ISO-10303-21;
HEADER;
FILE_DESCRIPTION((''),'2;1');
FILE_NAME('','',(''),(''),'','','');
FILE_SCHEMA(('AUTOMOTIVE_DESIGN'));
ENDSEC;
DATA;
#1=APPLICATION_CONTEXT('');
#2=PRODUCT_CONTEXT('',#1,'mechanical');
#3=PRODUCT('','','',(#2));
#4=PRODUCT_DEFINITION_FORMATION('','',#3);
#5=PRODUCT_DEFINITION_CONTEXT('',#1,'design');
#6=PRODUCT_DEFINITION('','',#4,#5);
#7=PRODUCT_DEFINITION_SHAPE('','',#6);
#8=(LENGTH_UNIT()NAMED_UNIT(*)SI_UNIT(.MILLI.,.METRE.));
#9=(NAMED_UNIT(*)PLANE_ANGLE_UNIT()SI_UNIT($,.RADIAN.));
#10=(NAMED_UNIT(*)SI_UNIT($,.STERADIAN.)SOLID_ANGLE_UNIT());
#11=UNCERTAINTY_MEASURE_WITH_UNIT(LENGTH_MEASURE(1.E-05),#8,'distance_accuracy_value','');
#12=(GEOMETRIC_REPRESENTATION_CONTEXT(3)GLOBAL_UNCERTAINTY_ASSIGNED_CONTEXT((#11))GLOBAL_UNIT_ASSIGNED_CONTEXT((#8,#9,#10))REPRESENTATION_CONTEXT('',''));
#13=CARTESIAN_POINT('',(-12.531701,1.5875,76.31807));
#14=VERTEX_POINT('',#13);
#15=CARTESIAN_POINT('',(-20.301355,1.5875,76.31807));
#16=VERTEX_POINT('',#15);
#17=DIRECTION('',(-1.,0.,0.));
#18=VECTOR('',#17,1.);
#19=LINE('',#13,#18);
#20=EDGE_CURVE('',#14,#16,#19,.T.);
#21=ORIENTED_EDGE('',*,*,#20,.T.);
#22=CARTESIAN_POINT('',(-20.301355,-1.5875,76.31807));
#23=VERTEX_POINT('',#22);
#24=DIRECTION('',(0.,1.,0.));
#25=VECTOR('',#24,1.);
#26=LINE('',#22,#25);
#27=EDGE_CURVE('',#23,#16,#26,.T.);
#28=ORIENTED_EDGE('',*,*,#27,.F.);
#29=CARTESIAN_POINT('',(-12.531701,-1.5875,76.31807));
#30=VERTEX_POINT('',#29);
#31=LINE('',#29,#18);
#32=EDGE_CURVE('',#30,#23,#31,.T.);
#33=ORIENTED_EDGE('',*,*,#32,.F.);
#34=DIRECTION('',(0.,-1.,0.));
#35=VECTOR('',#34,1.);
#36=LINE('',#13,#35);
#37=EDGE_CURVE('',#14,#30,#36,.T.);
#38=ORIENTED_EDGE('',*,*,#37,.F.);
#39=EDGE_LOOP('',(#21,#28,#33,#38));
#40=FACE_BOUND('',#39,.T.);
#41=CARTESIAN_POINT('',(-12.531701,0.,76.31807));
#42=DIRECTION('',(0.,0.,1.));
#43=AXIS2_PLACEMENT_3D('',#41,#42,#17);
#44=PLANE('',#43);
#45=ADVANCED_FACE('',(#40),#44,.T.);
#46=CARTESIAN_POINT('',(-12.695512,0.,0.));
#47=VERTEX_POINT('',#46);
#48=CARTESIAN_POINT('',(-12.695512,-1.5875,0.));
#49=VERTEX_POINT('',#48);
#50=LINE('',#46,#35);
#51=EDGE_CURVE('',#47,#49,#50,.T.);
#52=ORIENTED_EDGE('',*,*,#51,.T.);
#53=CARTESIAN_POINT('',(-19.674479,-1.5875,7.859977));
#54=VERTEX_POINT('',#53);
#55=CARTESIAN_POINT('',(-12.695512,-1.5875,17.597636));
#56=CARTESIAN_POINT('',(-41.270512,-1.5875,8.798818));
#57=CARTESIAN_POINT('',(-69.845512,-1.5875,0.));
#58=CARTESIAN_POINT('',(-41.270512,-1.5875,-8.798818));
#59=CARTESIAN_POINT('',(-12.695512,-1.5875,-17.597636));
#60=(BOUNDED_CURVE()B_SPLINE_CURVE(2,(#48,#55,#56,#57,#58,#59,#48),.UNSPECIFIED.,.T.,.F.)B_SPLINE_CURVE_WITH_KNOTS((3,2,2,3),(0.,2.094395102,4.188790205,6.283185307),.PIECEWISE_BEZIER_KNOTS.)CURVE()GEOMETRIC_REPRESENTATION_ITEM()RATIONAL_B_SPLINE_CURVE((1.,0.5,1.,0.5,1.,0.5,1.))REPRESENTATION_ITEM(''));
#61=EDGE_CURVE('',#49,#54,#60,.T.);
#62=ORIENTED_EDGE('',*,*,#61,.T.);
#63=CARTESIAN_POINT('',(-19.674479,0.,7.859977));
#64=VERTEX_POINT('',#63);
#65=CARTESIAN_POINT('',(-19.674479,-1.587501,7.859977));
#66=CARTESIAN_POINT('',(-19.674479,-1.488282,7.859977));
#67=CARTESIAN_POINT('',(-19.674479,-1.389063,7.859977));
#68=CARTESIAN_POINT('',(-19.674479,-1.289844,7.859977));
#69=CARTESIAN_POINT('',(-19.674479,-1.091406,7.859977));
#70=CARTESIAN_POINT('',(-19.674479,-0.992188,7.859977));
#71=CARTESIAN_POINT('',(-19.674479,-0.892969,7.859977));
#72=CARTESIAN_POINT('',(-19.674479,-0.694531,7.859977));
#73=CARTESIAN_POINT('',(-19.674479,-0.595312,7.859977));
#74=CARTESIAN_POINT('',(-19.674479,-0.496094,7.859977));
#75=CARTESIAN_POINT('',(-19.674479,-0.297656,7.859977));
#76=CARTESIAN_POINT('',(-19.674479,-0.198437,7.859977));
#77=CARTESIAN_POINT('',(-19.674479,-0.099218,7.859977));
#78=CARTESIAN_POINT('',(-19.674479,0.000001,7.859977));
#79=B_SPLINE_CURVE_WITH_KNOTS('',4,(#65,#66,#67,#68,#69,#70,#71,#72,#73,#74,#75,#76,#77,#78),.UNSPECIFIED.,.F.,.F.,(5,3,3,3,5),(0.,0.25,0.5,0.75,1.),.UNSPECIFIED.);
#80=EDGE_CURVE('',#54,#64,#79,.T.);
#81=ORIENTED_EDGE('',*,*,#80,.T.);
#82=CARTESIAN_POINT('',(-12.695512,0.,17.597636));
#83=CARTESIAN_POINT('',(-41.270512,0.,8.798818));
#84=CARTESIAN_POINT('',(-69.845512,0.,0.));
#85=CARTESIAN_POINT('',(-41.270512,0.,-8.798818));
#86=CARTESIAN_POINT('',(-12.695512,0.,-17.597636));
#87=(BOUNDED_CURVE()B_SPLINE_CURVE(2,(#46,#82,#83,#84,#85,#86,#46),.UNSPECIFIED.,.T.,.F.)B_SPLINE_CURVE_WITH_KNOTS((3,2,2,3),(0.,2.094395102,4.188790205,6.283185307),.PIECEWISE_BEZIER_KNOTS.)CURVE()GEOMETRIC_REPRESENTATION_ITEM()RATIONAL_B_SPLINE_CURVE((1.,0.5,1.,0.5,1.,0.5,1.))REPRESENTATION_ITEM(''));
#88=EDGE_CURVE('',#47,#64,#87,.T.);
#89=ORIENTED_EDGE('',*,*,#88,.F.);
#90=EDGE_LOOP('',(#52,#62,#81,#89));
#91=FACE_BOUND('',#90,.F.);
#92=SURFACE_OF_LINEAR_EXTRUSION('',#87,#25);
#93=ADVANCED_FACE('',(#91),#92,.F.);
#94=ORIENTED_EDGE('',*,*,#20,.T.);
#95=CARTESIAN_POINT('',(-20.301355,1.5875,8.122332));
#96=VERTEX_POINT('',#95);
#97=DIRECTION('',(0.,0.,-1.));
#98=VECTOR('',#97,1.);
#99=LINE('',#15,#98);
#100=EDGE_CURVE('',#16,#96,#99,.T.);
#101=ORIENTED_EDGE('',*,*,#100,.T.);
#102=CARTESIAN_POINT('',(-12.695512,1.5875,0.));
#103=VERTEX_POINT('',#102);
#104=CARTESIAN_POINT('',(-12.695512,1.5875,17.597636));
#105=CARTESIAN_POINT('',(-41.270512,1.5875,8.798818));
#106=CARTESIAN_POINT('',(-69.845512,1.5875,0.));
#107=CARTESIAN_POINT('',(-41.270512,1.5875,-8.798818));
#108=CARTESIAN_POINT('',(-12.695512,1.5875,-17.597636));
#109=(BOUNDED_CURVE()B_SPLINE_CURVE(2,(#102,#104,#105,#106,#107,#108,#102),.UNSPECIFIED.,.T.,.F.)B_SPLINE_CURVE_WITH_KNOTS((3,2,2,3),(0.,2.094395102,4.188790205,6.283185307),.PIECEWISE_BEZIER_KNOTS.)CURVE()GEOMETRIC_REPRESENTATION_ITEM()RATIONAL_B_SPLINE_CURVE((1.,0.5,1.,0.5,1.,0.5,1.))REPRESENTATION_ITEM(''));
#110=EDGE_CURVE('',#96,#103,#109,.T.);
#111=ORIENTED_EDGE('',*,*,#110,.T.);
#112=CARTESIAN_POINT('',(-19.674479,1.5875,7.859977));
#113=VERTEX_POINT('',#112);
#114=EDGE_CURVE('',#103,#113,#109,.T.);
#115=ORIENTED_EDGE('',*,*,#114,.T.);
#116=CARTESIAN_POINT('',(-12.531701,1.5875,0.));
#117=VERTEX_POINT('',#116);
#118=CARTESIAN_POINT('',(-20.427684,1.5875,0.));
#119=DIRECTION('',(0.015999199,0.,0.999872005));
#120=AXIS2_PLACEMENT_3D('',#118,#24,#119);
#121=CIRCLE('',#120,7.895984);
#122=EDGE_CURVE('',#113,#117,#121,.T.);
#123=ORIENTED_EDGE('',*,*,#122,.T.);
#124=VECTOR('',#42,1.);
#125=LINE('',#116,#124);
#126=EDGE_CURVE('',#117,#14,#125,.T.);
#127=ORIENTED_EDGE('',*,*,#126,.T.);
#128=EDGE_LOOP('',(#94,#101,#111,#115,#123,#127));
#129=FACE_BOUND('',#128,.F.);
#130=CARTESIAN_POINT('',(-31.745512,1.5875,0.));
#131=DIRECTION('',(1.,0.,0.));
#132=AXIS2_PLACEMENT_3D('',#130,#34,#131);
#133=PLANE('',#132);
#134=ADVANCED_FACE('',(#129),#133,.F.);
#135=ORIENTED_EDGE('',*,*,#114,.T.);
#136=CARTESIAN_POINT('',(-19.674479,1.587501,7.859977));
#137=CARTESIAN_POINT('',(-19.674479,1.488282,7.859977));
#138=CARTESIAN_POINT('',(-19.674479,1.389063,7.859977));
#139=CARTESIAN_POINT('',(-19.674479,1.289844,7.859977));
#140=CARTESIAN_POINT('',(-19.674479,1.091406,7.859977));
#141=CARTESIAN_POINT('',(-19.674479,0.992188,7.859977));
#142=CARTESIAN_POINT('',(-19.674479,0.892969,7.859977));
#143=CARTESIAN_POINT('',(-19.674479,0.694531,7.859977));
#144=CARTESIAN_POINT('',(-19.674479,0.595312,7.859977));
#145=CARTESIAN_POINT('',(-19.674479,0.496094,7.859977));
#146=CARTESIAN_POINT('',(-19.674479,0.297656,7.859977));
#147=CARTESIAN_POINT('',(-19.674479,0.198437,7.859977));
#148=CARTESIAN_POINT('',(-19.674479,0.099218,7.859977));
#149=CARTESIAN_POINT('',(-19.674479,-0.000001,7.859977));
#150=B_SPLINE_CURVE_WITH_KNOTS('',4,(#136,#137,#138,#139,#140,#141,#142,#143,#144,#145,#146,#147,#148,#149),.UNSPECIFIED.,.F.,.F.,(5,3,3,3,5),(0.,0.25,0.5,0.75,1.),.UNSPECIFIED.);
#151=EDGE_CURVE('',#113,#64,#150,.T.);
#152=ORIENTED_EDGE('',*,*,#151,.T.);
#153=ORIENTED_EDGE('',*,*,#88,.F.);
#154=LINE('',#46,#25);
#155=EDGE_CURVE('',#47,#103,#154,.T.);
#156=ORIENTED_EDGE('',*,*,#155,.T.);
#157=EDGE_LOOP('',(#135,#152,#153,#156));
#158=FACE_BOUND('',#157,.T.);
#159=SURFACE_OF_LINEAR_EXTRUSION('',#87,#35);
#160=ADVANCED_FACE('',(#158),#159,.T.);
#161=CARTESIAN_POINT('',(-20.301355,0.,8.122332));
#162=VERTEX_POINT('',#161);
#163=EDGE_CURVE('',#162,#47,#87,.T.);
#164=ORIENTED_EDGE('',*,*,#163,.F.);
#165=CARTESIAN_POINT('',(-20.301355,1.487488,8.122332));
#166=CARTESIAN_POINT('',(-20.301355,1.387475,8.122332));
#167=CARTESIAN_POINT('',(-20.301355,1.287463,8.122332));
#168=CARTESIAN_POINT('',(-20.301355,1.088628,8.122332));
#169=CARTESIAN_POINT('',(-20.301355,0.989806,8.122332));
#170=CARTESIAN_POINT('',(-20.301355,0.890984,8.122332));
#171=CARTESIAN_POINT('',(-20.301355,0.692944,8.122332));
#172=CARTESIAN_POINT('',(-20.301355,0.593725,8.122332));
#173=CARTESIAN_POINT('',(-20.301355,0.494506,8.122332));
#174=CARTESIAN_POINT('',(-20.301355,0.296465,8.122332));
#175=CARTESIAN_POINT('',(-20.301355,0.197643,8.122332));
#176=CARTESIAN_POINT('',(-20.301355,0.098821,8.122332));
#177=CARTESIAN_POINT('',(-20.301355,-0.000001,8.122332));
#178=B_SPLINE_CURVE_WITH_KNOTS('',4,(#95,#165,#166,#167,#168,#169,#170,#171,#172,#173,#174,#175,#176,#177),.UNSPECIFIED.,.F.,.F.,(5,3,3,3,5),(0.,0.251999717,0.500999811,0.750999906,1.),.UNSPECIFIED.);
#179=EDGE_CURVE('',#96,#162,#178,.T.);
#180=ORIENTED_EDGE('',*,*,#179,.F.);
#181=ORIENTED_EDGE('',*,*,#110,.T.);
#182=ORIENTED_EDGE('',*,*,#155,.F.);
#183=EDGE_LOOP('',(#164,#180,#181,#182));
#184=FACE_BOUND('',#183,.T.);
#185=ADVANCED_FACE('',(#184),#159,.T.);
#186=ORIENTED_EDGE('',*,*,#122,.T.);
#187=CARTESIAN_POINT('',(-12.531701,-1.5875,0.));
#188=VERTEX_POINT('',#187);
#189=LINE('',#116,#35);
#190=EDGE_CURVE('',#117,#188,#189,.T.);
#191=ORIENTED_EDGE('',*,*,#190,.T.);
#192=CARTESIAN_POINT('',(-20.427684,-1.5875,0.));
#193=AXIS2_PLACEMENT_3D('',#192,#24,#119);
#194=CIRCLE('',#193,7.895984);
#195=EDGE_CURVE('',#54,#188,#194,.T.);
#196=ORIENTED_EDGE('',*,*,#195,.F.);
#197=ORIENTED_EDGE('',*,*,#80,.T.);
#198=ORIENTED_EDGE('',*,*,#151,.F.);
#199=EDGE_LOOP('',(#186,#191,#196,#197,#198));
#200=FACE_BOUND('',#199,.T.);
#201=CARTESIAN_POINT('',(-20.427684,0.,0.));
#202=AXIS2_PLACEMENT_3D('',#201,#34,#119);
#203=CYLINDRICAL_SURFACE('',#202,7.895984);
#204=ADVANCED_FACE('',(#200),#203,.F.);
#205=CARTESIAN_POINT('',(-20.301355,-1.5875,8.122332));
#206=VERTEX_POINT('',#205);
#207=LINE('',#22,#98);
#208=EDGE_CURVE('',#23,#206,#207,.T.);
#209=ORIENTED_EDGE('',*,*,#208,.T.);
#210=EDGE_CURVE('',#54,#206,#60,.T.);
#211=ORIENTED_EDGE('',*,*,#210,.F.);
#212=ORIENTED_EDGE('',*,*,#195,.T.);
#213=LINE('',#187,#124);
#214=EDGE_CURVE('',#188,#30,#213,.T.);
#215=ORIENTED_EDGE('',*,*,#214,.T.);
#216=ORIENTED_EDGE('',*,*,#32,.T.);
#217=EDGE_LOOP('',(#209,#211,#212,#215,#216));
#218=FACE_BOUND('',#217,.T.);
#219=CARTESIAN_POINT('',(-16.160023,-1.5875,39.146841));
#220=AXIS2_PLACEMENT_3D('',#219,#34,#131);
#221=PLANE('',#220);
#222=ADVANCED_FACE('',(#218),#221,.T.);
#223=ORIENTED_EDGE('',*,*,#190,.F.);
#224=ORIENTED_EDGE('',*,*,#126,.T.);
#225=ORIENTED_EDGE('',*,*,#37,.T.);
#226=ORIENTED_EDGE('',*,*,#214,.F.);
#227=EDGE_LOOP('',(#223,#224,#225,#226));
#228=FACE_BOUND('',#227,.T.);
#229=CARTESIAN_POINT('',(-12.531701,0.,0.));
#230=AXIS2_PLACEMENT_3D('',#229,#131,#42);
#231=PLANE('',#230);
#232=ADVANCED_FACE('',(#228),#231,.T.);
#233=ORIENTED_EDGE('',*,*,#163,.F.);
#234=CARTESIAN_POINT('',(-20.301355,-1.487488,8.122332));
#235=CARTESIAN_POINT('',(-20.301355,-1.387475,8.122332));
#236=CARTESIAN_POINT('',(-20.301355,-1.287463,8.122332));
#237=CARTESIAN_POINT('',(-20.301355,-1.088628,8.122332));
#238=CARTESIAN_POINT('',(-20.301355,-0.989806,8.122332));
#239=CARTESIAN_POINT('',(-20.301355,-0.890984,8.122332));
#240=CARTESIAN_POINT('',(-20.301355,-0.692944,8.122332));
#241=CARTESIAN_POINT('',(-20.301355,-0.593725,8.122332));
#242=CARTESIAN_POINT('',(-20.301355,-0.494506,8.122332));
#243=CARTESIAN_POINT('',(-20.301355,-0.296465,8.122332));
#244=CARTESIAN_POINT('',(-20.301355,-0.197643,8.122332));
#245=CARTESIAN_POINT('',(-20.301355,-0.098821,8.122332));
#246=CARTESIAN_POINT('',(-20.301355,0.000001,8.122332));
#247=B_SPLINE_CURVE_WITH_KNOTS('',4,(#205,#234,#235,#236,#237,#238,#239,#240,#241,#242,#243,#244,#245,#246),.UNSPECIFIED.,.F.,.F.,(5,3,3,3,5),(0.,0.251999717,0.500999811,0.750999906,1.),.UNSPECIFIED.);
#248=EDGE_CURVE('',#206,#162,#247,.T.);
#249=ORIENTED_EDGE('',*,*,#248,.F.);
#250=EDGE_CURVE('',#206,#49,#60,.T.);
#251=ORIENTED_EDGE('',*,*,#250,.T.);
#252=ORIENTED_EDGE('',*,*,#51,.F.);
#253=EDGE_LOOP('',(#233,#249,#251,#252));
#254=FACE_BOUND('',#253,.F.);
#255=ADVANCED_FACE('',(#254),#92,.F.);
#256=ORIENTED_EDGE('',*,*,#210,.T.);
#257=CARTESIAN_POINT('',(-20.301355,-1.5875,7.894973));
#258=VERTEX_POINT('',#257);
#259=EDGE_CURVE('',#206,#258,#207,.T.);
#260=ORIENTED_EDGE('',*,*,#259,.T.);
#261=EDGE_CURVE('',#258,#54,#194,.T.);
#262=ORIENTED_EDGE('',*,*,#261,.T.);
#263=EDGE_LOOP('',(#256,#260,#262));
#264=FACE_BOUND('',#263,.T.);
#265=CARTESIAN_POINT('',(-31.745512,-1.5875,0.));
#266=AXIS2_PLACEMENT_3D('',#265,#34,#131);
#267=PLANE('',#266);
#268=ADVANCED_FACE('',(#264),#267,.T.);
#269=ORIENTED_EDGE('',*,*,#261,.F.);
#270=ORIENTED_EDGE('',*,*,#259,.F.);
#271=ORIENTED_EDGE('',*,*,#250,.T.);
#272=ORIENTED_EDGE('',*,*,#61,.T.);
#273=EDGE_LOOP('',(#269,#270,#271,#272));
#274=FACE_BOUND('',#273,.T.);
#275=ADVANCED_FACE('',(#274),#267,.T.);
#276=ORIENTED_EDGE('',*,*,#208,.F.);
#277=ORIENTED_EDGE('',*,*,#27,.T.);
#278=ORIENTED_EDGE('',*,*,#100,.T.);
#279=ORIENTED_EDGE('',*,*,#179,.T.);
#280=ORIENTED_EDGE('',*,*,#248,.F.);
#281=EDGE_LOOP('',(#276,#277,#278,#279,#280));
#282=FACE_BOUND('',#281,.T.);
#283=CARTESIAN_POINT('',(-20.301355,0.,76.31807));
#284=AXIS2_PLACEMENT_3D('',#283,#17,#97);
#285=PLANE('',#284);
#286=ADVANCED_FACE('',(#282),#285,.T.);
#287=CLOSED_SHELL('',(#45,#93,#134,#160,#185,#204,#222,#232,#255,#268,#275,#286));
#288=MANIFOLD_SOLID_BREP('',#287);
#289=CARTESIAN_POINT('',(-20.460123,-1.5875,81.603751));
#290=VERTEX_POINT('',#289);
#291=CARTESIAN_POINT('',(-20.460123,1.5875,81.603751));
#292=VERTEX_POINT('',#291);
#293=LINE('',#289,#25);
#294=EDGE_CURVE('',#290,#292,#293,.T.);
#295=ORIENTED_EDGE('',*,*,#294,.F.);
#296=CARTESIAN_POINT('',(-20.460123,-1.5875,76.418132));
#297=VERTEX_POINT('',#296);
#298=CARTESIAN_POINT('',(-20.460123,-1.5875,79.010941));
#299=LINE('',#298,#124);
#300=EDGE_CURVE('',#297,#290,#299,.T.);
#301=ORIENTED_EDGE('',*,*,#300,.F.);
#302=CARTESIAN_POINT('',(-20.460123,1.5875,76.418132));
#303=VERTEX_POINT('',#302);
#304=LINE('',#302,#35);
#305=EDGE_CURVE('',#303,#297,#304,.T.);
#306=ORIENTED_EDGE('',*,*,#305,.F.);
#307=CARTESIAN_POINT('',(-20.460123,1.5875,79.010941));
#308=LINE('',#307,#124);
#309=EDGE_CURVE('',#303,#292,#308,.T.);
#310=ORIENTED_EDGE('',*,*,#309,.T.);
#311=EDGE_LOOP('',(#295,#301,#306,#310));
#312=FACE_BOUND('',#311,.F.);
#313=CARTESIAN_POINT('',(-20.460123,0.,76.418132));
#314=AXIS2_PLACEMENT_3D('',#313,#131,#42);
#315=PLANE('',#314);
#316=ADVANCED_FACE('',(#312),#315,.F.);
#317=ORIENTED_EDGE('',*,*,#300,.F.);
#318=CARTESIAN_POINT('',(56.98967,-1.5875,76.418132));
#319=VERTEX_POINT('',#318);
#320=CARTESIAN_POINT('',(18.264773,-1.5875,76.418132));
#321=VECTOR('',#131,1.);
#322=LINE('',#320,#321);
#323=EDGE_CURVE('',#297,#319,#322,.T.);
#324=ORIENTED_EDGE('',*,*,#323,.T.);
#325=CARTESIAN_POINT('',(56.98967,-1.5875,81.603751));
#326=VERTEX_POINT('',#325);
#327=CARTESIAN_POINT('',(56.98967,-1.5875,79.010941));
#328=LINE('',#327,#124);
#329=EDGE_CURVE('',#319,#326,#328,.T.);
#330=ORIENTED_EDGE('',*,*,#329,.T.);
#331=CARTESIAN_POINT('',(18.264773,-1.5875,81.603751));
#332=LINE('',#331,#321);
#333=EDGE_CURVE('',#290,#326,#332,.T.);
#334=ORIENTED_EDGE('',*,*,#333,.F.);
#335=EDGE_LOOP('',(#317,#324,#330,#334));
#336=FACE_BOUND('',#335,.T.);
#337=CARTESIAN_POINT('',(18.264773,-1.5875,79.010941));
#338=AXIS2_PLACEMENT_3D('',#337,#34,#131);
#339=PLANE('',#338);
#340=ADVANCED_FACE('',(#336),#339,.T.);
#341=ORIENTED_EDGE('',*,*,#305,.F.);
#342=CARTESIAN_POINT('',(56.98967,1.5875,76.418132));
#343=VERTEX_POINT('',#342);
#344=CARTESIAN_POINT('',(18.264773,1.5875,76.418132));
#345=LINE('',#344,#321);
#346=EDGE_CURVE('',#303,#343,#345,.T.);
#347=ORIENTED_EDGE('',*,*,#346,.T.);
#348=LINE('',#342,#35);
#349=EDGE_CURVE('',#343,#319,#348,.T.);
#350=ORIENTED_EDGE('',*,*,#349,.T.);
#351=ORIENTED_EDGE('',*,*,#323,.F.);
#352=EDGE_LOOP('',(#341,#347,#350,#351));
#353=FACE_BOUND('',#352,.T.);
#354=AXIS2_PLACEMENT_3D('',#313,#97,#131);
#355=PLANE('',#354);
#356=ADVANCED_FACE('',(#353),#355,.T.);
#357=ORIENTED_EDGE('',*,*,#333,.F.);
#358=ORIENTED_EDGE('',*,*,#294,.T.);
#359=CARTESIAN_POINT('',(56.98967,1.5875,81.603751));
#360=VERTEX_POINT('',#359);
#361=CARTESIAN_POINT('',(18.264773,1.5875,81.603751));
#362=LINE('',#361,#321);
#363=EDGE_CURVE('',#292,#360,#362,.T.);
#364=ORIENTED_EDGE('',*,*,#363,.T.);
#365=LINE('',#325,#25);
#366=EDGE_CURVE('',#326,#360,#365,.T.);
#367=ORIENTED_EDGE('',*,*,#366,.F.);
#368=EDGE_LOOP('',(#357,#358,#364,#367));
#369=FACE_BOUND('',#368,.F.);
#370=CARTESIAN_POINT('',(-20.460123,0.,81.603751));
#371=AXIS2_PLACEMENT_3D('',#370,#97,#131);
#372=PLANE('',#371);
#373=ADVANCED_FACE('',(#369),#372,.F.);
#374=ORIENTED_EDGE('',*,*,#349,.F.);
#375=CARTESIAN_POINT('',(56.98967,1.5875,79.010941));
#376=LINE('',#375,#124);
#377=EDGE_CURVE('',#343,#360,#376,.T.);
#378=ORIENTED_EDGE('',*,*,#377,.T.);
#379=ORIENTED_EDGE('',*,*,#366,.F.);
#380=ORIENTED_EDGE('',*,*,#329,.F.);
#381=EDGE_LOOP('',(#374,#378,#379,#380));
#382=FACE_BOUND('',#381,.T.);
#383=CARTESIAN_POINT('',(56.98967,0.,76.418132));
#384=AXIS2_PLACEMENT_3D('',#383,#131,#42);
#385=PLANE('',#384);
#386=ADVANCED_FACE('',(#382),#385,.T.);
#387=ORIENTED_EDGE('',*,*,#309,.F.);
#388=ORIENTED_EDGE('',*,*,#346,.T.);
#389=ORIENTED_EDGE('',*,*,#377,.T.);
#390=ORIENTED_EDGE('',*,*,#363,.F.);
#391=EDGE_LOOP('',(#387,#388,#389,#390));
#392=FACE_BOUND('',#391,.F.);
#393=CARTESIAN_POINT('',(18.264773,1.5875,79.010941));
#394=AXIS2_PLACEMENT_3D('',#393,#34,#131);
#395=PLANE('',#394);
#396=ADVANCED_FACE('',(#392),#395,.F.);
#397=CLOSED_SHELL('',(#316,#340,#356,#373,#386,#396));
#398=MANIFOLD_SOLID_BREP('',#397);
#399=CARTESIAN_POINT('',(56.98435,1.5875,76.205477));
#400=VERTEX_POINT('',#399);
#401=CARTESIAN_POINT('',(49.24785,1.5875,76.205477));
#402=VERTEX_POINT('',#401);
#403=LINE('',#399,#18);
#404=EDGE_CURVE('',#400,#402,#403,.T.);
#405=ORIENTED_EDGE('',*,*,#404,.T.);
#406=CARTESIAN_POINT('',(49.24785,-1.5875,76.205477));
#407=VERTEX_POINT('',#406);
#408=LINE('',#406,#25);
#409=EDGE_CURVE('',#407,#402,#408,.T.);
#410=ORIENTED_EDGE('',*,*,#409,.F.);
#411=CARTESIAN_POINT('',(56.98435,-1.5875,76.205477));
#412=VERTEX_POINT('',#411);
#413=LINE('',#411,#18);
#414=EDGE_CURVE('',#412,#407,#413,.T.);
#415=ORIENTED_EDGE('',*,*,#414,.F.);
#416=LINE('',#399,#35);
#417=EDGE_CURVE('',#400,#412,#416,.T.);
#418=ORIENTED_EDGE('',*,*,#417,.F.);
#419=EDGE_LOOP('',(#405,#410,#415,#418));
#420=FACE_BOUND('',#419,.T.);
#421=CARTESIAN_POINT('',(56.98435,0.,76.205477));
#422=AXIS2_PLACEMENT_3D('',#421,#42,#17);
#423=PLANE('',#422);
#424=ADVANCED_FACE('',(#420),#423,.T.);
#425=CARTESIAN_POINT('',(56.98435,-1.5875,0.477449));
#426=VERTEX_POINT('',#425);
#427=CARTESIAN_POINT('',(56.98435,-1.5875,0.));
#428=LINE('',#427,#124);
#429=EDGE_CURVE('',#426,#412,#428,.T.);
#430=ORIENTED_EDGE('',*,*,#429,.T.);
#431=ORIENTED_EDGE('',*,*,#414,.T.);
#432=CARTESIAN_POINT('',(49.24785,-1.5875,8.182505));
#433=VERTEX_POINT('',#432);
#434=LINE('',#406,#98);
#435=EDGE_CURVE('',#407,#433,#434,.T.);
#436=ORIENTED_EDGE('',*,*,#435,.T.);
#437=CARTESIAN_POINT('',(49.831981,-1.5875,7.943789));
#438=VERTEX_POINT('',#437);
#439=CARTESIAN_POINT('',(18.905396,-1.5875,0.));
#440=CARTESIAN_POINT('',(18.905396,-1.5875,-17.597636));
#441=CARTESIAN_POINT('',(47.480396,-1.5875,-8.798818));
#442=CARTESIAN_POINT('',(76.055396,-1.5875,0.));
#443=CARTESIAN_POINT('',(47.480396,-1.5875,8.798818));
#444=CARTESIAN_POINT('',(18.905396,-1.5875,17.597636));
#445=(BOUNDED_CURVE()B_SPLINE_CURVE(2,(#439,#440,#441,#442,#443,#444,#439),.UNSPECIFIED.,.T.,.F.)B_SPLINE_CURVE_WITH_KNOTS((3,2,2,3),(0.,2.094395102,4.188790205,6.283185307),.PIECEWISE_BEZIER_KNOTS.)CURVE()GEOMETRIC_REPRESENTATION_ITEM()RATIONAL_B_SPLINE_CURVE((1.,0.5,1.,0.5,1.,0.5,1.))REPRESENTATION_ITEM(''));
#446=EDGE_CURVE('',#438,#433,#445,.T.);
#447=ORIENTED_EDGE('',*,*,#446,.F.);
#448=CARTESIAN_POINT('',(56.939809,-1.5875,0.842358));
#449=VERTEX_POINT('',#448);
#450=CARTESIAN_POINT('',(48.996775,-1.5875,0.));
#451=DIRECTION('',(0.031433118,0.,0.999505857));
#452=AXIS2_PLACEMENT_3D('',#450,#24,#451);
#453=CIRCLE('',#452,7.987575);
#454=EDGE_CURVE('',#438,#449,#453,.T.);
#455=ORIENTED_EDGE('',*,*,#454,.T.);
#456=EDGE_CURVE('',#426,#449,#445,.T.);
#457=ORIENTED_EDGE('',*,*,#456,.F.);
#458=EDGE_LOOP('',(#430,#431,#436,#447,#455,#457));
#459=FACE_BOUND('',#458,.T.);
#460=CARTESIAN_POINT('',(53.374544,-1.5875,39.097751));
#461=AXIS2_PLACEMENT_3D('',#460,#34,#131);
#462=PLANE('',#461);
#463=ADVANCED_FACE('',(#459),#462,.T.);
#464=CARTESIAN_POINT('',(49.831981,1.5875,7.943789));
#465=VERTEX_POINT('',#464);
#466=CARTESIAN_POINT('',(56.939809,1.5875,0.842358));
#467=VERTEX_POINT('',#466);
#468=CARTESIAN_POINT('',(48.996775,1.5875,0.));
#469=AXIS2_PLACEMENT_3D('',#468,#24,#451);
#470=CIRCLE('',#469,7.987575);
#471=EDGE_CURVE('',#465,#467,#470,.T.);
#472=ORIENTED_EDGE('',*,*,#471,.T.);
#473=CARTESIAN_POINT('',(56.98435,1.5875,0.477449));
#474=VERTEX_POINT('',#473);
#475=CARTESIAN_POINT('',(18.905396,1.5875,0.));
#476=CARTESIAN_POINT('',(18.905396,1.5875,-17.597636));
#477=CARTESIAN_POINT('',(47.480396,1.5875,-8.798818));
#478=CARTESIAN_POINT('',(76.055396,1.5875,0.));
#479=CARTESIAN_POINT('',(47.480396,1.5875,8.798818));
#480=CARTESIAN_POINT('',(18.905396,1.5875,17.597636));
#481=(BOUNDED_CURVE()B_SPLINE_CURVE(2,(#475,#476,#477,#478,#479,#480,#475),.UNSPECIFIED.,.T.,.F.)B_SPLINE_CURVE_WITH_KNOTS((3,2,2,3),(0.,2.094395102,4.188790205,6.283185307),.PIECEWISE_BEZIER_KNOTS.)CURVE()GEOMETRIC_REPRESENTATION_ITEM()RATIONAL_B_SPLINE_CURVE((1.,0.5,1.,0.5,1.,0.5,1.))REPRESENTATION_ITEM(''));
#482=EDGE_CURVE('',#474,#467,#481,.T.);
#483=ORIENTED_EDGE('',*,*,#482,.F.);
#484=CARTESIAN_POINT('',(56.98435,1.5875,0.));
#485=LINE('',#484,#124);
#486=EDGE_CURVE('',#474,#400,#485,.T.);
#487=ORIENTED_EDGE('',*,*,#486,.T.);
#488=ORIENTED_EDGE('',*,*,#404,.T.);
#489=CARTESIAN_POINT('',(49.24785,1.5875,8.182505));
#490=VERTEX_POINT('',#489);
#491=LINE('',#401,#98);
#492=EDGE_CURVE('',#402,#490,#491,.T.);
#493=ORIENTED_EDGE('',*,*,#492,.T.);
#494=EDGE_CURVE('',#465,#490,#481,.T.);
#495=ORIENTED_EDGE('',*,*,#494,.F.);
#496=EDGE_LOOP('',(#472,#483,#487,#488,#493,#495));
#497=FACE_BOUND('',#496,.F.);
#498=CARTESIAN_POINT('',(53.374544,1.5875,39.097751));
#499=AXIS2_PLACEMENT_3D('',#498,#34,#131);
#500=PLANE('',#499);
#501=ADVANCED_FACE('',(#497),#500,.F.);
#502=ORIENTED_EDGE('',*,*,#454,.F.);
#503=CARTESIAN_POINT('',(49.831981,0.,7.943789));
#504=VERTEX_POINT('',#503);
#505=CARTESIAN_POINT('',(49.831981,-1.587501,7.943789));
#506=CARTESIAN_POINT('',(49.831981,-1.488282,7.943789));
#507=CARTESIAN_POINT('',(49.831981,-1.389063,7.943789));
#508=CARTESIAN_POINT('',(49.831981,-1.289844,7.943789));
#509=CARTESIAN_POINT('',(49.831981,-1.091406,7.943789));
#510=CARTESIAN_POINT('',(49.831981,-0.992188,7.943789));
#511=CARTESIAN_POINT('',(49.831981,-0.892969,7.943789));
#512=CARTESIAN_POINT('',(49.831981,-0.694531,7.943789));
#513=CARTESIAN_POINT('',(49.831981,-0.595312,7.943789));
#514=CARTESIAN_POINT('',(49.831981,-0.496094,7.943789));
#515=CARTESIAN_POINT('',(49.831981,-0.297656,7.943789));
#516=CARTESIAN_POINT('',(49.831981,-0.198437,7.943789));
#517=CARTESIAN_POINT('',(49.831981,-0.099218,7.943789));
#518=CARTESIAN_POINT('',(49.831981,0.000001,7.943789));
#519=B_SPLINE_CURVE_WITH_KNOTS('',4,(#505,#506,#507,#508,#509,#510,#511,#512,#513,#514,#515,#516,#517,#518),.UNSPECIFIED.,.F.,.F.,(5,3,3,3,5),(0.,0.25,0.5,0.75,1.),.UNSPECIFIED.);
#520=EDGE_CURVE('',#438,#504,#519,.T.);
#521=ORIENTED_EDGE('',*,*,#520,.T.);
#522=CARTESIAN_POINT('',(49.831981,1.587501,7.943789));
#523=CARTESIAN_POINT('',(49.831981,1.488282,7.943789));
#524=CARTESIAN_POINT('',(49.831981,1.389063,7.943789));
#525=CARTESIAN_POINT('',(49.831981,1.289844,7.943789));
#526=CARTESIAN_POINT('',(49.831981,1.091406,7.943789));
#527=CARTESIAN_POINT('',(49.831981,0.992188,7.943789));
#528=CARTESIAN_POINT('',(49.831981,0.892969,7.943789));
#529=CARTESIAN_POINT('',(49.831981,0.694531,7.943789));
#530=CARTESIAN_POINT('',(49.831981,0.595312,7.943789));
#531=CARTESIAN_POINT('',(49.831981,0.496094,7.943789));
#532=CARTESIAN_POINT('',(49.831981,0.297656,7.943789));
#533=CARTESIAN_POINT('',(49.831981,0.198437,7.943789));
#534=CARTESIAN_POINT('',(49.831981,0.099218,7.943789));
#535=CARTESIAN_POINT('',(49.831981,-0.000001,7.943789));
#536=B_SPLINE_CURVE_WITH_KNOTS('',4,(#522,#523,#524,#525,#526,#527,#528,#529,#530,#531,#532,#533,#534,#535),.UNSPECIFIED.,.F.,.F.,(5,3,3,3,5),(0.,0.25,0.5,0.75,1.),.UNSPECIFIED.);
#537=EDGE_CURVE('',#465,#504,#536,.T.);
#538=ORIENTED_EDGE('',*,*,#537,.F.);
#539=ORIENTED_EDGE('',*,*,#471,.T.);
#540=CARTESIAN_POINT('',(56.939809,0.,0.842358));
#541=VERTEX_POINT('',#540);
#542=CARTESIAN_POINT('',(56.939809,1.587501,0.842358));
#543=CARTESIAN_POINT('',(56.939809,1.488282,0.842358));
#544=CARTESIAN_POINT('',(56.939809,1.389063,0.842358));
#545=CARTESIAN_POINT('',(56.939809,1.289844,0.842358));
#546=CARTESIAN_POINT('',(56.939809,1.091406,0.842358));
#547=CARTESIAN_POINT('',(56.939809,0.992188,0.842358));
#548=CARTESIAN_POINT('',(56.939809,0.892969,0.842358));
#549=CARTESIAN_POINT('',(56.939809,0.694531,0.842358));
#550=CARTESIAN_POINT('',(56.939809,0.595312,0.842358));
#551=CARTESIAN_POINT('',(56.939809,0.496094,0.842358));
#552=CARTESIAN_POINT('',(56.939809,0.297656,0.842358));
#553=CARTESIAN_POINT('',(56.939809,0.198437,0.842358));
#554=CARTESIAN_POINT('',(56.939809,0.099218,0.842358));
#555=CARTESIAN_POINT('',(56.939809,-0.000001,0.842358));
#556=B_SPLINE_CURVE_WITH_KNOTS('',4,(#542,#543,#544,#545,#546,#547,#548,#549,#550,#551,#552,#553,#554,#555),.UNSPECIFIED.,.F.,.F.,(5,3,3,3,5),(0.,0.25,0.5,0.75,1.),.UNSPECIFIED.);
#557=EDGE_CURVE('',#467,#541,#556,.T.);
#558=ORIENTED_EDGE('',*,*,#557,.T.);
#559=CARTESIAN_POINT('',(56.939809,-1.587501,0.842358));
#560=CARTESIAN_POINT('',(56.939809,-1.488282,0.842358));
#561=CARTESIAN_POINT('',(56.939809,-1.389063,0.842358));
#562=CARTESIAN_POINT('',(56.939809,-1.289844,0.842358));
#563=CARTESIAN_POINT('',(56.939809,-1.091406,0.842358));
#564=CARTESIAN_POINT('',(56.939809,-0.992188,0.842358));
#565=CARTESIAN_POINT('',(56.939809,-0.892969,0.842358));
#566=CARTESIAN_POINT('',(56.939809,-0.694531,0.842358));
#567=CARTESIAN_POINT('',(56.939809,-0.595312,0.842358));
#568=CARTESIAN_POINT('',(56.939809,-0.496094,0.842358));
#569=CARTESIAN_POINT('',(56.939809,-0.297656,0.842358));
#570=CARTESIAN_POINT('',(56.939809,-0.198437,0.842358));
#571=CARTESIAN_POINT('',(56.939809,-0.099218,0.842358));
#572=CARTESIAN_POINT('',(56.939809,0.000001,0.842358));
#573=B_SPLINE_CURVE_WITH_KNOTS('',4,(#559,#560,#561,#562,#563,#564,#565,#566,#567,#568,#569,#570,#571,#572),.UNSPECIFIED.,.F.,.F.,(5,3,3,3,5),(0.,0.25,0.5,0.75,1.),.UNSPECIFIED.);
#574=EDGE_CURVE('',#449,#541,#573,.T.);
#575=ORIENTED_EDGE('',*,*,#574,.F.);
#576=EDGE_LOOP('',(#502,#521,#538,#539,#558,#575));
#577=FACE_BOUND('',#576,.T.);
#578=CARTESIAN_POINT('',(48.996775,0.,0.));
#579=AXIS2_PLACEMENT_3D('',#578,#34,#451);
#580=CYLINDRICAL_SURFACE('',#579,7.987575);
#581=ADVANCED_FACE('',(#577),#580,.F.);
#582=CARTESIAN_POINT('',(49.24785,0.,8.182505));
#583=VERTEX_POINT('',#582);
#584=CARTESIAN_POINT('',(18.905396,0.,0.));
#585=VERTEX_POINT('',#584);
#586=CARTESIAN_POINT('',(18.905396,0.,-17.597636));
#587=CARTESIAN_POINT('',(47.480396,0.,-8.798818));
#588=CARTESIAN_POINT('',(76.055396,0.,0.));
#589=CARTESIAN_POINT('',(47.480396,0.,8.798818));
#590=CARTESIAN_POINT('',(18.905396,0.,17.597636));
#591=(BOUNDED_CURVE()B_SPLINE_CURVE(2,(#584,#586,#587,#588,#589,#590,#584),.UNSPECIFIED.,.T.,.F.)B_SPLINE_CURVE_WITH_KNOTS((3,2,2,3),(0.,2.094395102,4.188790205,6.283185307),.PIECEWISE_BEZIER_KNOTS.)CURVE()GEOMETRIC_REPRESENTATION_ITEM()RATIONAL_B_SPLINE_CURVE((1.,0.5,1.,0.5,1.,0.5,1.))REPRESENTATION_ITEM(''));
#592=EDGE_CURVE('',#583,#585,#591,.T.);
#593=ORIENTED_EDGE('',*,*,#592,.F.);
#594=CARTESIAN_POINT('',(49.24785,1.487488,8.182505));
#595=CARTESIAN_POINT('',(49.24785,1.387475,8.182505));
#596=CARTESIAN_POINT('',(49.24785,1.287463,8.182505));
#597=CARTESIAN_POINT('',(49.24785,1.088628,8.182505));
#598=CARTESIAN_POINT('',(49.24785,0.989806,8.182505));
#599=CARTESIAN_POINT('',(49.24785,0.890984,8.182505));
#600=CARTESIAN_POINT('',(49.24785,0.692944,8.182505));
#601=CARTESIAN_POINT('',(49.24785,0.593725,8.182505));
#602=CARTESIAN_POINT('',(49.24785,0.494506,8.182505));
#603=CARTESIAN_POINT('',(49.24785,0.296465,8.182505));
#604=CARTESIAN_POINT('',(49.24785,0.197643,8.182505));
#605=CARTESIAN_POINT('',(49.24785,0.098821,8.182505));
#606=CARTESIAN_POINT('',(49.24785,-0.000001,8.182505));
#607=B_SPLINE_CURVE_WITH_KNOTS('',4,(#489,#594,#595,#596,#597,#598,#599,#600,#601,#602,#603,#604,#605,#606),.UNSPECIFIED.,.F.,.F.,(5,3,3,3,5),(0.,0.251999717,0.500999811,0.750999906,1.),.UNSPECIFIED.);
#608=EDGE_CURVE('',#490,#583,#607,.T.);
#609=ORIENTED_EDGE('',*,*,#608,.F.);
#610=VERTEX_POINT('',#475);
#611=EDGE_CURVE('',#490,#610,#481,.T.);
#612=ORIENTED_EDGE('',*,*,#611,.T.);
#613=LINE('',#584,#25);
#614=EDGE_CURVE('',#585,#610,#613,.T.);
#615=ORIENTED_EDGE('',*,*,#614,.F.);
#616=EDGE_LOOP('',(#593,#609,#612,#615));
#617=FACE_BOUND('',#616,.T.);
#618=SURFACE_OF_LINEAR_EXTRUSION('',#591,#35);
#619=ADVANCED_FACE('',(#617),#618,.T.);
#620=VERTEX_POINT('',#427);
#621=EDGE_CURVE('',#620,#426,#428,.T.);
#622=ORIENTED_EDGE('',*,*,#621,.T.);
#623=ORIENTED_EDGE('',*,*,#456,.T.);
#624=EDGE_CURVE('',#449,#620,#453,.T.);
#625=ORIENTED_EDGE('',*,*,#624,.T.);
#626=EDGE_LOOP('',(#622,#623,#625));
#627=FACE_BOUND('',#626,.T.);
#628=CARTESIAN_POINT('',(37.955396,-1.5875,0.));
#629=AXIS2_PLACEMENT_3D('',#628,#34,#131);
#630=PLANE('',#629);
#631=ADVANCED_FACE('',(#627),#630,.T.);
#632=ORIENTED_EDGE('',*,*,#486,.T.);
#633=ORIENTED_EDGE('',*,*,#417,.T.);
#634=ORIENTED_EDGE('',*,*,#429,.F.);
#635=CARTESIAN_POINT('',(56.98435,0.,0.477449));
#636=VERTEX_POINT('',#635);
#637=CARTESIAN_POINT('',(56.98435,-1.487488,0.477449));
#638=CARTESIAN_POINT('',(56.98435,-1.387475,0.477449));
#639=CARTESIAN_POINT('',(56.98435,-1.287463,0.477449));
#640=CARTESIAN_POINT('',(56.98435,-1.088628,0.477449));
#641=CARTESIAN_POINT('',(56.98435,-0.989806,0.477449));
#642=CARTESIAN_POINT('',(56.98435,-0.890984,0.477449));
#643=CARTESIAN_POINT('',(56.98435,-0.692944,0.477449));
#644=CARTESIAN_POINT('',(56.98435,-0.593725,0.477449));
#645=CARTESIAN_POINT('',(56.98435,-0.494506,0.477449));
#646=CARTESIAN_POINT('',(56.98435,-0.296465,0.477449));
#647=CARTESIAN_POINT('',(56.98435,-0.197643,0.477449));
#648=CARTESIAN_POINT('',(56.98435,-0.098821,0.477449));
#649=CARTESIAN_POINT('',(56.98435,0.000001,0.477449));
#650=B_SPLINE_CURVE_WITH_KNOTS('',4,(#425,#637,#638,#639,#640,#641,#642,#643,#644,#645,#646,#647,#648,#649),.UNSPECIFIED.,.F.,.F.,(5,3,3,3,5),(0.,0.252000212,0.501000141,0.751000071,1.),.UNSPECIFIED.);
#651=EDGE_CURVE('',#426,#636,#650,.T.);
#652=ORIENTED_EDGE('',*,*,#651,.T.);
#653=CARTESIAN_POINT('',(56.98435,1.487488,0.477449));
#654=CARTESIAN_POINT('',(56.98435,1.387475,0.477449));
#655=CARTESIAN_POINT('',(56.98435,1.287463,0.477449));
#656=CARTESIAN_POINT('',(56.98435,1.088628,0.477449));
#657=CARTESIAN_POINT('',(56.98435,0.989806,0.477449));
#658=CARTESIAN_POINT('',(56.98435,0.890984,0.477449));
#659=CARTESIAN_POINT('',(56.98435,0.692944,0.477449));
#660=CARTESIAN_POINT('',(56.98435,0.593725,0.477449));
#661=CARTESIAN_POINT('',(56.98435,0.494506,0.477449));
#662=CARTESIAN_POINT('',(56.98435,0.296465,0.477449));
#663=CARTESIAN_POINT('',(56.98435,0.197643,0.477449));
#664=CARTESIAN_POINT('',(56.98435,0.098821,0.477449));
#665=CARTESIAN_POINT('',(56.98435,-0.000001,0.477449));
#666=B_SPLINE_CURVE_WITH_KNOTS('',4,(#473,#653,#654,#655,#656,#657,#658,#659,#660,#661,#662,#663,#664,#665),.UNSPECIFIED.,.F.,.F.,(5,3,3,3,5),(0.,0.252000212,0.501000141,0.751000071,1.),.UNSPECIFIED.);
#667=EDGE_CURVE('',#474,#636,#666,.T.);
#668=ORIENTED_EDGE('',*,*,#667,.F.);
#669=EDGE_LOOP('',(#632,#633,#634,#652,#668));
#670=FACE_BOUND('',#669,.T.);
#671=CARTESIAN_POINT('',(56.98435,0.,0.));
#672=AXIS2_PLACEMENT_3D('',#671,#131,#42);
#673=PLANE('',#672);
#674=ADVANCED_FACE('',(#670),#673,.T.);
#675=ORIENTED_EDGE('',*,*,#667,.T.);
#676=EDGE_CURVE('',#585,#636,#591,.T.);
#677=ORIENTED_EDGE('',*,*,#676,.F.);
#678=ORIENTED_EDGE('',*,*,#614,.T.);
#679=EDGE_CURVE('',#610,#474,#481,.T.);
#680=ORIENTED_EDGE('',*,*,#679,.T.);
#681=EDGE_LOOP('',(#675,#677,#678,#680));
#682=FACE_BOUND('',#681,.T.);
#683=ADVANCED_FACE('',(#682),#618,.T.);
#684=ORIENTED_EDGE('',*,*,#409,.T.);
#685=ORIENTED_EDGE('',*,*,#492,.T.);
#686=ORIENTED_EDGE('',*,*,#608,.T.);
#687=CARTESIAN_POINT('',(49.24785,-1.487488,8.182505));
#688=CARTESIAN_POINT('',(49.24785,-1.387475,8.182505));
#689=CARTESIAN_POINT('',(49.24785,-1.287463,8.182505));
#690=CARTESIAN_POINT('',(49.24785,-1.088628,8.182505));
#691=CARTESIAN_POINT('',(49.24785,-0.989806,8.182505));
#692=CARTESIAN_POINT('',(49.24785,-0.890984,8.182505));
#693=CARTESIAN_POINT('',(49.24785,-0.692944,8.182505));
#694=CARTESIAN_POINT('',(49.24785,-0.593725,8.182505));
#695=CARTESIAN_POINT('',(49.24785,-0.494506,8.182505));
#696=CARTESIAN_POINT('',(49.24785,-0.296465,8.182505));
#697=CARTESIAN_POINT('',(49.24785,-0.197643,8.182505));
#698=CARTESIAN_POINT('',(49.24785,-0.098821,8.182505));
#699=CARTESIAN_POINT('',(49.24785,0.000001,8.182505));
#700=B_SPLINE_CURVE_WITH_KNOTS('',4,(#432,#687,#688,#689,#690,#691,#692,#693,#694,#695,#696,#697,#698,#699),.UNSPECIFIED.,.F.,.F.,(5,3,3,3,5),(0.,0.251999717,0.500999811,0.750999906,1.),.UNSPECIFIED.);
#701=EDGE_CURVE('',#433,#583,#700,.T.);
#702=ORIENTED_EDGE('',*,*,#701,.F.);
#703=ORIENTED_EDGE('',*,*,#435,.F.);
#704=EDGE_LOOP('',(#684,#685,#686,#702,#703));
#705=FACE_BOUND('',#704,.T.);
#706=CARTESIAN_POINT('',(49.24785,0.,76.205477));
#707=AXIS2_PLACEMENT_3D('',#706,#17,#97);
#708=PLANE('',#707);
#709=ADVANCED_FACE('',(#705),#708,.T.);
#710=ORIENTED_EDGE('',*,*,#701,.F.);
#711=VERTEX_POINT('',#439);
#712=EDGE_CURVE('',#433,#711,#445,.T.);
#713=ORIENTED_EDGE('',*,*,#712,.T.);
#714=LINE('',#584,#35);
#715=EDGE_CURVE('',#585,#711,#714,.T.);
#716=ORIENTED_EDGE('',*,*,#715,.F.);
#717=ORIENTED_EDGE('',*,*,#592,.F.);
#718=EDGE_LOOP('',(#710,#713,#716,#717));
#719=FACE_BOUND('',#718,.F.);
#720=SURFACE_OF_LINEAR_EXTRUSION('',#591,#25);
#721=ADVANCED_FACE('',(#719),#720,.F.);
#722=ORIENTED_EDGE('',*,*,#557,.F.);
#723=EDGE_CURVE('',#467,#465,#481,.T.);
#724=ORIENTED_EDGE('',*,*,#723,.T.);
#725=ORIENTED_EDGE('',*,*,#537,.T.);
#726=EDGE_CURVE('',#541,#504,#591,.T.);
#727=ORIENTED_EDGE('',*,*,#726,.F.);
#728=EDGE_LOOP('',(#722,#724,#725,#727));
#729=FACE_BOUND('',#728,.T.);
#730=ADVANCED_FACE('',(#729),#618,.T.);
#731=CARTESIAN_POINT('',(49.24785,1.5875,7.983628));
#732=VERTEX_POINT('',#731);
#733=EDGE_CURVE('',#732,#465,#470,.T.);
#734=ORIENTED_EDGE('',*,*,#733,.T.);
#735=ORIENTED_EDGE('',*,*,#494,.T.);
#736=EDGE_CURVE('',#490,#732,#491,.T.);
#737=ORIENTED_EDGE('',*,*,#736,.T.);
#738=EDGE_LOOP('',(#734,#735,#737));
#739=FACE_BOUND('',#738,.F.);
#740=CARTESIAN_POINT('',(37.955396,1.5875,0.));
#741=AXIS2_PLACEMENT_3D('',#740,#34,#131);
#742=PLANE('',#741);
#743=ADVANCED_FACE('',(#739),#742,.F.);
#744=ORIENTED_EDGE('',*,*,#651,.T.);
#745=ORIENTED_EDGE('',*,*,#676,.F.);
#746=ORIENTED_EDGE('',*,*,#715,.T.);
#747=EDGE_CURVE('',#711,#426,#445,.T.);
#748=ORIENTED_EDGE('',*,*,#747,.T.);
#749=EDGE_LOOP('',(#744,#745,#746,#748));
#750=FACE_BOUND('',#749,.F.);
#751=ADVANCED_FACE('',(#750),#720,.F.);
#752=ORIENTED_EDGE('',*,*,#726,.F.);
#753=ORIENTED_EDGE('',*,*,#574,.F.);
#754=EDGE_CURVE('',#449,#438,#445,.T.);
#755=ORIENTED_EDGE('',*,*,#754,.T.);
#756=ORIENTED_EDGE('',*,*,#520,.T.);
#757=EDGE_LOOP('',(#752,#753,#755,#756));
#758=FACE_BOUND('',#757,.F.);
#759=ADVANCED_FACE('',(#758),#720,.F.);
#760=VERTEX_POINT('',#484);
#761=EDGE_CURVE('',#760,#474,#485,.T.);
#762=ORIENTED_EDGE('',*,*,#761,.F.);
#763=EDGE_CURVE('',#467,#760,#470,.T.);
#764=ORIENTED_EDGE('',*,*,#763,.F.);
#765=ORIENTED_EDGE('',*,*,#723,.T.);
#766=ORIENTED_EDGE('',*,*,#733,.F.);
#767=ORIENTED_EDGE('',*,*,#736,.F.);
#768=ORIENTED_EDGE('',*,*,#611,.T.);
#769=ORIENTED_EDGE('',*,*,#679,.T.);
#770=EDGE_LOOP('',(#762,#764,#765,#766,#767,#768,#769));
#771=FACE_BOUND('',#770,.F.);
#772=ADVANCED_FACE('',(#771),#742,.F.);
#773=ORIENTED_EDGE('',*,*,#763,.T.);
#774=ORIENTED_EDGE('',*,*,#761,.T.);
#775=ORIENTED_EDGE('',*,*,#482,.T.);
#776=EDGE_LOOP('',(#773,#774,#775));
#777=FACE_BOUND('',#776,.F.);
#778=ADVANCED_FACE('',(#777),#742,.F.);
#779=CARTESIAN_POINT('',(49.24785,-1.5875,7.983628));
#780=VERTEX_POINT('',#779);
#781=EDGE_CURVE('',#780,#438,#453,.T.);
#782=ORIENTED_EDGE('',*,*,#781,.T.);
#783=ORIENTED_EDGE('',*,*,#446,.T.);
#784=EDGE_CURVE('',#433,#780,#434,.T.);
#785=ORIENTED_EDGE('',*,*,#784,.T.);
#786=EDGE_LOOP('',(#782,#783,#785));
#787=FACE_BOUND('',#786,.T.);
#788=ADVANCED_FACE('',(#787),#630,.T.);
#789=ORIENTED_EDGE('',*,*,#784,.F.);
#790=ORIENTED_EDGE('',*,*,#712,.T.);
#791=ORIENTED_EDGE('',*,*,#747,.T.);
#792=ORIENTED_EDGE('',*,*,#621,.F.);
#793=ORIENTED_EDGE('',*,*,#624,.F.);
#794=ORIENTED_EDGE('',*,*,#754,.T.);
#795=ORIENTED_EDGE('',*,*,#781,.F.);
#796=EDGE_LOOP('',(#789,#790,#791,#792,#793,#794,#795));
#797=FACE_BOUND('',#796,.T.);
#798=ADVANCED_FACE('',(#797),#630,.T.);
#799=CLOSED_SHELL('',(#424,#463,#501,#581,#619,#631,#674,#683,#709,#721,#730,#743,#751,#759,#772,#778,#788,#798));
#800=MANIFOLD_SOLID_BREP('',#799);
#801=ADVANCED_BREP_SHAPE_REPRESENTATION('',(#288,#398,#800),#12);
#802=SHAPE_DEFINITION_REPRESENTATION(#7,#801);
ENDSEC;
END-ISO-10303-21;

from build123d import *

# Parameters (mm, degrees)
F5_DEPTH = 1.5875
F6_DEPTH = 1.5875
F7_DEPTH = 1.5875
F8_DEPTH = 1.5875
F4_W     = 77.449792996
F4_H     = 5.1856189966
F9_DEPTH = 1.5875


with BuildPart() as f5:
    # F0 (on Front) → F5 (new body, symmetric)
    with BuildSketch(Plane.XZ):
        with BuildLine():
            add(Edge.make_bspline(
                [(-12.6955120239, 0), (-12.6955120239, 17.5976362049), (-41.2705120239, 8.7988181024), (-69.8455120239, 0), (-41.2705120239, -8.7988181024), (-12.6955120239, -17.5976362049), (-12.6955120239, 0)],
                knots=[0, 0, 0, 2.0943951024, 2.0943951024, 4.1887902048, 4.1887902048, 6.2831853072, 6.2831853072, 6.2831853072], degree=2, weights=[1, 0.5, 1, 0.5, 1, 0.5, 1]))
        make_face()
    extrude(amount=F5_DEPTH, both=True)

    # F2 (on Front) → F7 (join, symmetric)
    with BuildSketch(Plane.XZ):
        with BuildLine():
            ThreePointArc((-20.301355049, 7.8949732706), (-14.7998937299, 5.5384594896), (-12.5317005441, 0))
            Line((-12.5317005441, 0), (-12.5317005441, 76.3180702925))
            Line((-12.5317005441, 76.3180702925), (-20.301355049, 76.3180702925))
            Line((-20.301355049, 76.3180702925), (-20.301355049, 7.8949732706))
        make_face()
    extrude(amount=F7_DEPTH, both=True)


with BuildPart() as f6:
    # F1 (on Front) → F6 (new body, symmetric)
    with BuildSketch(Plane.XZ):
        with BuildLine():
            add(Edge.make_bspline(
                [(18.9053961899, 0), (18.9053961899, -17.5976362049), (47.4803961899, -8.7988181024), (76.0553961899, 0), (47.4803961899, 8.7988181024), (18.9053961899, 17.5976362049), (18.9053961899, 0)],
                knots=[0, 0, 0, 2.0943951024, 2.0943951024, 4.1887902048, 4.1887902048, 6.2831853072, 6.2831853072, 6.2831853072], degree=2, weights=[1, 0.5, 1, 0.5, 1, 0.5, 1]))
        make_face()
    extrude(amount=F6_DEPTH, both=True)

    # F3 (on Front) → F8 (join, symmetric)
    with BuildSketch(Plane.XZ):
        with BuildLine():
            ThreePointArc((49.2478497326, 7.9836277291), (54.7329249967, 5.5585913104), (56.9843500853, 0))
            Line((56.9843500853, 0), (56.9843500853, 76.2054771185))
            Line((56.9843500853, 76.2054771185), (49.2478497326, 76.2054771185))
            Line((49.2478497326, 76.2054771185), (49.2478497326, 7.9836277291))
        make_face()
    extrude(amount=F8_DEPTH, both=True)


with BuildPart() as f9:
    # F4 (on Front) → F9 (new body, symmetric)
    with BuildSketch(Plane.XZ):
        with Locations((18.2647733018, 79.0109410882)):
            Rectangle(F4_W, F4_H)
    extrude(amount=F9_DEPTH, both=True)


solid = Compound([f5.part, f6.part, f9.part])
